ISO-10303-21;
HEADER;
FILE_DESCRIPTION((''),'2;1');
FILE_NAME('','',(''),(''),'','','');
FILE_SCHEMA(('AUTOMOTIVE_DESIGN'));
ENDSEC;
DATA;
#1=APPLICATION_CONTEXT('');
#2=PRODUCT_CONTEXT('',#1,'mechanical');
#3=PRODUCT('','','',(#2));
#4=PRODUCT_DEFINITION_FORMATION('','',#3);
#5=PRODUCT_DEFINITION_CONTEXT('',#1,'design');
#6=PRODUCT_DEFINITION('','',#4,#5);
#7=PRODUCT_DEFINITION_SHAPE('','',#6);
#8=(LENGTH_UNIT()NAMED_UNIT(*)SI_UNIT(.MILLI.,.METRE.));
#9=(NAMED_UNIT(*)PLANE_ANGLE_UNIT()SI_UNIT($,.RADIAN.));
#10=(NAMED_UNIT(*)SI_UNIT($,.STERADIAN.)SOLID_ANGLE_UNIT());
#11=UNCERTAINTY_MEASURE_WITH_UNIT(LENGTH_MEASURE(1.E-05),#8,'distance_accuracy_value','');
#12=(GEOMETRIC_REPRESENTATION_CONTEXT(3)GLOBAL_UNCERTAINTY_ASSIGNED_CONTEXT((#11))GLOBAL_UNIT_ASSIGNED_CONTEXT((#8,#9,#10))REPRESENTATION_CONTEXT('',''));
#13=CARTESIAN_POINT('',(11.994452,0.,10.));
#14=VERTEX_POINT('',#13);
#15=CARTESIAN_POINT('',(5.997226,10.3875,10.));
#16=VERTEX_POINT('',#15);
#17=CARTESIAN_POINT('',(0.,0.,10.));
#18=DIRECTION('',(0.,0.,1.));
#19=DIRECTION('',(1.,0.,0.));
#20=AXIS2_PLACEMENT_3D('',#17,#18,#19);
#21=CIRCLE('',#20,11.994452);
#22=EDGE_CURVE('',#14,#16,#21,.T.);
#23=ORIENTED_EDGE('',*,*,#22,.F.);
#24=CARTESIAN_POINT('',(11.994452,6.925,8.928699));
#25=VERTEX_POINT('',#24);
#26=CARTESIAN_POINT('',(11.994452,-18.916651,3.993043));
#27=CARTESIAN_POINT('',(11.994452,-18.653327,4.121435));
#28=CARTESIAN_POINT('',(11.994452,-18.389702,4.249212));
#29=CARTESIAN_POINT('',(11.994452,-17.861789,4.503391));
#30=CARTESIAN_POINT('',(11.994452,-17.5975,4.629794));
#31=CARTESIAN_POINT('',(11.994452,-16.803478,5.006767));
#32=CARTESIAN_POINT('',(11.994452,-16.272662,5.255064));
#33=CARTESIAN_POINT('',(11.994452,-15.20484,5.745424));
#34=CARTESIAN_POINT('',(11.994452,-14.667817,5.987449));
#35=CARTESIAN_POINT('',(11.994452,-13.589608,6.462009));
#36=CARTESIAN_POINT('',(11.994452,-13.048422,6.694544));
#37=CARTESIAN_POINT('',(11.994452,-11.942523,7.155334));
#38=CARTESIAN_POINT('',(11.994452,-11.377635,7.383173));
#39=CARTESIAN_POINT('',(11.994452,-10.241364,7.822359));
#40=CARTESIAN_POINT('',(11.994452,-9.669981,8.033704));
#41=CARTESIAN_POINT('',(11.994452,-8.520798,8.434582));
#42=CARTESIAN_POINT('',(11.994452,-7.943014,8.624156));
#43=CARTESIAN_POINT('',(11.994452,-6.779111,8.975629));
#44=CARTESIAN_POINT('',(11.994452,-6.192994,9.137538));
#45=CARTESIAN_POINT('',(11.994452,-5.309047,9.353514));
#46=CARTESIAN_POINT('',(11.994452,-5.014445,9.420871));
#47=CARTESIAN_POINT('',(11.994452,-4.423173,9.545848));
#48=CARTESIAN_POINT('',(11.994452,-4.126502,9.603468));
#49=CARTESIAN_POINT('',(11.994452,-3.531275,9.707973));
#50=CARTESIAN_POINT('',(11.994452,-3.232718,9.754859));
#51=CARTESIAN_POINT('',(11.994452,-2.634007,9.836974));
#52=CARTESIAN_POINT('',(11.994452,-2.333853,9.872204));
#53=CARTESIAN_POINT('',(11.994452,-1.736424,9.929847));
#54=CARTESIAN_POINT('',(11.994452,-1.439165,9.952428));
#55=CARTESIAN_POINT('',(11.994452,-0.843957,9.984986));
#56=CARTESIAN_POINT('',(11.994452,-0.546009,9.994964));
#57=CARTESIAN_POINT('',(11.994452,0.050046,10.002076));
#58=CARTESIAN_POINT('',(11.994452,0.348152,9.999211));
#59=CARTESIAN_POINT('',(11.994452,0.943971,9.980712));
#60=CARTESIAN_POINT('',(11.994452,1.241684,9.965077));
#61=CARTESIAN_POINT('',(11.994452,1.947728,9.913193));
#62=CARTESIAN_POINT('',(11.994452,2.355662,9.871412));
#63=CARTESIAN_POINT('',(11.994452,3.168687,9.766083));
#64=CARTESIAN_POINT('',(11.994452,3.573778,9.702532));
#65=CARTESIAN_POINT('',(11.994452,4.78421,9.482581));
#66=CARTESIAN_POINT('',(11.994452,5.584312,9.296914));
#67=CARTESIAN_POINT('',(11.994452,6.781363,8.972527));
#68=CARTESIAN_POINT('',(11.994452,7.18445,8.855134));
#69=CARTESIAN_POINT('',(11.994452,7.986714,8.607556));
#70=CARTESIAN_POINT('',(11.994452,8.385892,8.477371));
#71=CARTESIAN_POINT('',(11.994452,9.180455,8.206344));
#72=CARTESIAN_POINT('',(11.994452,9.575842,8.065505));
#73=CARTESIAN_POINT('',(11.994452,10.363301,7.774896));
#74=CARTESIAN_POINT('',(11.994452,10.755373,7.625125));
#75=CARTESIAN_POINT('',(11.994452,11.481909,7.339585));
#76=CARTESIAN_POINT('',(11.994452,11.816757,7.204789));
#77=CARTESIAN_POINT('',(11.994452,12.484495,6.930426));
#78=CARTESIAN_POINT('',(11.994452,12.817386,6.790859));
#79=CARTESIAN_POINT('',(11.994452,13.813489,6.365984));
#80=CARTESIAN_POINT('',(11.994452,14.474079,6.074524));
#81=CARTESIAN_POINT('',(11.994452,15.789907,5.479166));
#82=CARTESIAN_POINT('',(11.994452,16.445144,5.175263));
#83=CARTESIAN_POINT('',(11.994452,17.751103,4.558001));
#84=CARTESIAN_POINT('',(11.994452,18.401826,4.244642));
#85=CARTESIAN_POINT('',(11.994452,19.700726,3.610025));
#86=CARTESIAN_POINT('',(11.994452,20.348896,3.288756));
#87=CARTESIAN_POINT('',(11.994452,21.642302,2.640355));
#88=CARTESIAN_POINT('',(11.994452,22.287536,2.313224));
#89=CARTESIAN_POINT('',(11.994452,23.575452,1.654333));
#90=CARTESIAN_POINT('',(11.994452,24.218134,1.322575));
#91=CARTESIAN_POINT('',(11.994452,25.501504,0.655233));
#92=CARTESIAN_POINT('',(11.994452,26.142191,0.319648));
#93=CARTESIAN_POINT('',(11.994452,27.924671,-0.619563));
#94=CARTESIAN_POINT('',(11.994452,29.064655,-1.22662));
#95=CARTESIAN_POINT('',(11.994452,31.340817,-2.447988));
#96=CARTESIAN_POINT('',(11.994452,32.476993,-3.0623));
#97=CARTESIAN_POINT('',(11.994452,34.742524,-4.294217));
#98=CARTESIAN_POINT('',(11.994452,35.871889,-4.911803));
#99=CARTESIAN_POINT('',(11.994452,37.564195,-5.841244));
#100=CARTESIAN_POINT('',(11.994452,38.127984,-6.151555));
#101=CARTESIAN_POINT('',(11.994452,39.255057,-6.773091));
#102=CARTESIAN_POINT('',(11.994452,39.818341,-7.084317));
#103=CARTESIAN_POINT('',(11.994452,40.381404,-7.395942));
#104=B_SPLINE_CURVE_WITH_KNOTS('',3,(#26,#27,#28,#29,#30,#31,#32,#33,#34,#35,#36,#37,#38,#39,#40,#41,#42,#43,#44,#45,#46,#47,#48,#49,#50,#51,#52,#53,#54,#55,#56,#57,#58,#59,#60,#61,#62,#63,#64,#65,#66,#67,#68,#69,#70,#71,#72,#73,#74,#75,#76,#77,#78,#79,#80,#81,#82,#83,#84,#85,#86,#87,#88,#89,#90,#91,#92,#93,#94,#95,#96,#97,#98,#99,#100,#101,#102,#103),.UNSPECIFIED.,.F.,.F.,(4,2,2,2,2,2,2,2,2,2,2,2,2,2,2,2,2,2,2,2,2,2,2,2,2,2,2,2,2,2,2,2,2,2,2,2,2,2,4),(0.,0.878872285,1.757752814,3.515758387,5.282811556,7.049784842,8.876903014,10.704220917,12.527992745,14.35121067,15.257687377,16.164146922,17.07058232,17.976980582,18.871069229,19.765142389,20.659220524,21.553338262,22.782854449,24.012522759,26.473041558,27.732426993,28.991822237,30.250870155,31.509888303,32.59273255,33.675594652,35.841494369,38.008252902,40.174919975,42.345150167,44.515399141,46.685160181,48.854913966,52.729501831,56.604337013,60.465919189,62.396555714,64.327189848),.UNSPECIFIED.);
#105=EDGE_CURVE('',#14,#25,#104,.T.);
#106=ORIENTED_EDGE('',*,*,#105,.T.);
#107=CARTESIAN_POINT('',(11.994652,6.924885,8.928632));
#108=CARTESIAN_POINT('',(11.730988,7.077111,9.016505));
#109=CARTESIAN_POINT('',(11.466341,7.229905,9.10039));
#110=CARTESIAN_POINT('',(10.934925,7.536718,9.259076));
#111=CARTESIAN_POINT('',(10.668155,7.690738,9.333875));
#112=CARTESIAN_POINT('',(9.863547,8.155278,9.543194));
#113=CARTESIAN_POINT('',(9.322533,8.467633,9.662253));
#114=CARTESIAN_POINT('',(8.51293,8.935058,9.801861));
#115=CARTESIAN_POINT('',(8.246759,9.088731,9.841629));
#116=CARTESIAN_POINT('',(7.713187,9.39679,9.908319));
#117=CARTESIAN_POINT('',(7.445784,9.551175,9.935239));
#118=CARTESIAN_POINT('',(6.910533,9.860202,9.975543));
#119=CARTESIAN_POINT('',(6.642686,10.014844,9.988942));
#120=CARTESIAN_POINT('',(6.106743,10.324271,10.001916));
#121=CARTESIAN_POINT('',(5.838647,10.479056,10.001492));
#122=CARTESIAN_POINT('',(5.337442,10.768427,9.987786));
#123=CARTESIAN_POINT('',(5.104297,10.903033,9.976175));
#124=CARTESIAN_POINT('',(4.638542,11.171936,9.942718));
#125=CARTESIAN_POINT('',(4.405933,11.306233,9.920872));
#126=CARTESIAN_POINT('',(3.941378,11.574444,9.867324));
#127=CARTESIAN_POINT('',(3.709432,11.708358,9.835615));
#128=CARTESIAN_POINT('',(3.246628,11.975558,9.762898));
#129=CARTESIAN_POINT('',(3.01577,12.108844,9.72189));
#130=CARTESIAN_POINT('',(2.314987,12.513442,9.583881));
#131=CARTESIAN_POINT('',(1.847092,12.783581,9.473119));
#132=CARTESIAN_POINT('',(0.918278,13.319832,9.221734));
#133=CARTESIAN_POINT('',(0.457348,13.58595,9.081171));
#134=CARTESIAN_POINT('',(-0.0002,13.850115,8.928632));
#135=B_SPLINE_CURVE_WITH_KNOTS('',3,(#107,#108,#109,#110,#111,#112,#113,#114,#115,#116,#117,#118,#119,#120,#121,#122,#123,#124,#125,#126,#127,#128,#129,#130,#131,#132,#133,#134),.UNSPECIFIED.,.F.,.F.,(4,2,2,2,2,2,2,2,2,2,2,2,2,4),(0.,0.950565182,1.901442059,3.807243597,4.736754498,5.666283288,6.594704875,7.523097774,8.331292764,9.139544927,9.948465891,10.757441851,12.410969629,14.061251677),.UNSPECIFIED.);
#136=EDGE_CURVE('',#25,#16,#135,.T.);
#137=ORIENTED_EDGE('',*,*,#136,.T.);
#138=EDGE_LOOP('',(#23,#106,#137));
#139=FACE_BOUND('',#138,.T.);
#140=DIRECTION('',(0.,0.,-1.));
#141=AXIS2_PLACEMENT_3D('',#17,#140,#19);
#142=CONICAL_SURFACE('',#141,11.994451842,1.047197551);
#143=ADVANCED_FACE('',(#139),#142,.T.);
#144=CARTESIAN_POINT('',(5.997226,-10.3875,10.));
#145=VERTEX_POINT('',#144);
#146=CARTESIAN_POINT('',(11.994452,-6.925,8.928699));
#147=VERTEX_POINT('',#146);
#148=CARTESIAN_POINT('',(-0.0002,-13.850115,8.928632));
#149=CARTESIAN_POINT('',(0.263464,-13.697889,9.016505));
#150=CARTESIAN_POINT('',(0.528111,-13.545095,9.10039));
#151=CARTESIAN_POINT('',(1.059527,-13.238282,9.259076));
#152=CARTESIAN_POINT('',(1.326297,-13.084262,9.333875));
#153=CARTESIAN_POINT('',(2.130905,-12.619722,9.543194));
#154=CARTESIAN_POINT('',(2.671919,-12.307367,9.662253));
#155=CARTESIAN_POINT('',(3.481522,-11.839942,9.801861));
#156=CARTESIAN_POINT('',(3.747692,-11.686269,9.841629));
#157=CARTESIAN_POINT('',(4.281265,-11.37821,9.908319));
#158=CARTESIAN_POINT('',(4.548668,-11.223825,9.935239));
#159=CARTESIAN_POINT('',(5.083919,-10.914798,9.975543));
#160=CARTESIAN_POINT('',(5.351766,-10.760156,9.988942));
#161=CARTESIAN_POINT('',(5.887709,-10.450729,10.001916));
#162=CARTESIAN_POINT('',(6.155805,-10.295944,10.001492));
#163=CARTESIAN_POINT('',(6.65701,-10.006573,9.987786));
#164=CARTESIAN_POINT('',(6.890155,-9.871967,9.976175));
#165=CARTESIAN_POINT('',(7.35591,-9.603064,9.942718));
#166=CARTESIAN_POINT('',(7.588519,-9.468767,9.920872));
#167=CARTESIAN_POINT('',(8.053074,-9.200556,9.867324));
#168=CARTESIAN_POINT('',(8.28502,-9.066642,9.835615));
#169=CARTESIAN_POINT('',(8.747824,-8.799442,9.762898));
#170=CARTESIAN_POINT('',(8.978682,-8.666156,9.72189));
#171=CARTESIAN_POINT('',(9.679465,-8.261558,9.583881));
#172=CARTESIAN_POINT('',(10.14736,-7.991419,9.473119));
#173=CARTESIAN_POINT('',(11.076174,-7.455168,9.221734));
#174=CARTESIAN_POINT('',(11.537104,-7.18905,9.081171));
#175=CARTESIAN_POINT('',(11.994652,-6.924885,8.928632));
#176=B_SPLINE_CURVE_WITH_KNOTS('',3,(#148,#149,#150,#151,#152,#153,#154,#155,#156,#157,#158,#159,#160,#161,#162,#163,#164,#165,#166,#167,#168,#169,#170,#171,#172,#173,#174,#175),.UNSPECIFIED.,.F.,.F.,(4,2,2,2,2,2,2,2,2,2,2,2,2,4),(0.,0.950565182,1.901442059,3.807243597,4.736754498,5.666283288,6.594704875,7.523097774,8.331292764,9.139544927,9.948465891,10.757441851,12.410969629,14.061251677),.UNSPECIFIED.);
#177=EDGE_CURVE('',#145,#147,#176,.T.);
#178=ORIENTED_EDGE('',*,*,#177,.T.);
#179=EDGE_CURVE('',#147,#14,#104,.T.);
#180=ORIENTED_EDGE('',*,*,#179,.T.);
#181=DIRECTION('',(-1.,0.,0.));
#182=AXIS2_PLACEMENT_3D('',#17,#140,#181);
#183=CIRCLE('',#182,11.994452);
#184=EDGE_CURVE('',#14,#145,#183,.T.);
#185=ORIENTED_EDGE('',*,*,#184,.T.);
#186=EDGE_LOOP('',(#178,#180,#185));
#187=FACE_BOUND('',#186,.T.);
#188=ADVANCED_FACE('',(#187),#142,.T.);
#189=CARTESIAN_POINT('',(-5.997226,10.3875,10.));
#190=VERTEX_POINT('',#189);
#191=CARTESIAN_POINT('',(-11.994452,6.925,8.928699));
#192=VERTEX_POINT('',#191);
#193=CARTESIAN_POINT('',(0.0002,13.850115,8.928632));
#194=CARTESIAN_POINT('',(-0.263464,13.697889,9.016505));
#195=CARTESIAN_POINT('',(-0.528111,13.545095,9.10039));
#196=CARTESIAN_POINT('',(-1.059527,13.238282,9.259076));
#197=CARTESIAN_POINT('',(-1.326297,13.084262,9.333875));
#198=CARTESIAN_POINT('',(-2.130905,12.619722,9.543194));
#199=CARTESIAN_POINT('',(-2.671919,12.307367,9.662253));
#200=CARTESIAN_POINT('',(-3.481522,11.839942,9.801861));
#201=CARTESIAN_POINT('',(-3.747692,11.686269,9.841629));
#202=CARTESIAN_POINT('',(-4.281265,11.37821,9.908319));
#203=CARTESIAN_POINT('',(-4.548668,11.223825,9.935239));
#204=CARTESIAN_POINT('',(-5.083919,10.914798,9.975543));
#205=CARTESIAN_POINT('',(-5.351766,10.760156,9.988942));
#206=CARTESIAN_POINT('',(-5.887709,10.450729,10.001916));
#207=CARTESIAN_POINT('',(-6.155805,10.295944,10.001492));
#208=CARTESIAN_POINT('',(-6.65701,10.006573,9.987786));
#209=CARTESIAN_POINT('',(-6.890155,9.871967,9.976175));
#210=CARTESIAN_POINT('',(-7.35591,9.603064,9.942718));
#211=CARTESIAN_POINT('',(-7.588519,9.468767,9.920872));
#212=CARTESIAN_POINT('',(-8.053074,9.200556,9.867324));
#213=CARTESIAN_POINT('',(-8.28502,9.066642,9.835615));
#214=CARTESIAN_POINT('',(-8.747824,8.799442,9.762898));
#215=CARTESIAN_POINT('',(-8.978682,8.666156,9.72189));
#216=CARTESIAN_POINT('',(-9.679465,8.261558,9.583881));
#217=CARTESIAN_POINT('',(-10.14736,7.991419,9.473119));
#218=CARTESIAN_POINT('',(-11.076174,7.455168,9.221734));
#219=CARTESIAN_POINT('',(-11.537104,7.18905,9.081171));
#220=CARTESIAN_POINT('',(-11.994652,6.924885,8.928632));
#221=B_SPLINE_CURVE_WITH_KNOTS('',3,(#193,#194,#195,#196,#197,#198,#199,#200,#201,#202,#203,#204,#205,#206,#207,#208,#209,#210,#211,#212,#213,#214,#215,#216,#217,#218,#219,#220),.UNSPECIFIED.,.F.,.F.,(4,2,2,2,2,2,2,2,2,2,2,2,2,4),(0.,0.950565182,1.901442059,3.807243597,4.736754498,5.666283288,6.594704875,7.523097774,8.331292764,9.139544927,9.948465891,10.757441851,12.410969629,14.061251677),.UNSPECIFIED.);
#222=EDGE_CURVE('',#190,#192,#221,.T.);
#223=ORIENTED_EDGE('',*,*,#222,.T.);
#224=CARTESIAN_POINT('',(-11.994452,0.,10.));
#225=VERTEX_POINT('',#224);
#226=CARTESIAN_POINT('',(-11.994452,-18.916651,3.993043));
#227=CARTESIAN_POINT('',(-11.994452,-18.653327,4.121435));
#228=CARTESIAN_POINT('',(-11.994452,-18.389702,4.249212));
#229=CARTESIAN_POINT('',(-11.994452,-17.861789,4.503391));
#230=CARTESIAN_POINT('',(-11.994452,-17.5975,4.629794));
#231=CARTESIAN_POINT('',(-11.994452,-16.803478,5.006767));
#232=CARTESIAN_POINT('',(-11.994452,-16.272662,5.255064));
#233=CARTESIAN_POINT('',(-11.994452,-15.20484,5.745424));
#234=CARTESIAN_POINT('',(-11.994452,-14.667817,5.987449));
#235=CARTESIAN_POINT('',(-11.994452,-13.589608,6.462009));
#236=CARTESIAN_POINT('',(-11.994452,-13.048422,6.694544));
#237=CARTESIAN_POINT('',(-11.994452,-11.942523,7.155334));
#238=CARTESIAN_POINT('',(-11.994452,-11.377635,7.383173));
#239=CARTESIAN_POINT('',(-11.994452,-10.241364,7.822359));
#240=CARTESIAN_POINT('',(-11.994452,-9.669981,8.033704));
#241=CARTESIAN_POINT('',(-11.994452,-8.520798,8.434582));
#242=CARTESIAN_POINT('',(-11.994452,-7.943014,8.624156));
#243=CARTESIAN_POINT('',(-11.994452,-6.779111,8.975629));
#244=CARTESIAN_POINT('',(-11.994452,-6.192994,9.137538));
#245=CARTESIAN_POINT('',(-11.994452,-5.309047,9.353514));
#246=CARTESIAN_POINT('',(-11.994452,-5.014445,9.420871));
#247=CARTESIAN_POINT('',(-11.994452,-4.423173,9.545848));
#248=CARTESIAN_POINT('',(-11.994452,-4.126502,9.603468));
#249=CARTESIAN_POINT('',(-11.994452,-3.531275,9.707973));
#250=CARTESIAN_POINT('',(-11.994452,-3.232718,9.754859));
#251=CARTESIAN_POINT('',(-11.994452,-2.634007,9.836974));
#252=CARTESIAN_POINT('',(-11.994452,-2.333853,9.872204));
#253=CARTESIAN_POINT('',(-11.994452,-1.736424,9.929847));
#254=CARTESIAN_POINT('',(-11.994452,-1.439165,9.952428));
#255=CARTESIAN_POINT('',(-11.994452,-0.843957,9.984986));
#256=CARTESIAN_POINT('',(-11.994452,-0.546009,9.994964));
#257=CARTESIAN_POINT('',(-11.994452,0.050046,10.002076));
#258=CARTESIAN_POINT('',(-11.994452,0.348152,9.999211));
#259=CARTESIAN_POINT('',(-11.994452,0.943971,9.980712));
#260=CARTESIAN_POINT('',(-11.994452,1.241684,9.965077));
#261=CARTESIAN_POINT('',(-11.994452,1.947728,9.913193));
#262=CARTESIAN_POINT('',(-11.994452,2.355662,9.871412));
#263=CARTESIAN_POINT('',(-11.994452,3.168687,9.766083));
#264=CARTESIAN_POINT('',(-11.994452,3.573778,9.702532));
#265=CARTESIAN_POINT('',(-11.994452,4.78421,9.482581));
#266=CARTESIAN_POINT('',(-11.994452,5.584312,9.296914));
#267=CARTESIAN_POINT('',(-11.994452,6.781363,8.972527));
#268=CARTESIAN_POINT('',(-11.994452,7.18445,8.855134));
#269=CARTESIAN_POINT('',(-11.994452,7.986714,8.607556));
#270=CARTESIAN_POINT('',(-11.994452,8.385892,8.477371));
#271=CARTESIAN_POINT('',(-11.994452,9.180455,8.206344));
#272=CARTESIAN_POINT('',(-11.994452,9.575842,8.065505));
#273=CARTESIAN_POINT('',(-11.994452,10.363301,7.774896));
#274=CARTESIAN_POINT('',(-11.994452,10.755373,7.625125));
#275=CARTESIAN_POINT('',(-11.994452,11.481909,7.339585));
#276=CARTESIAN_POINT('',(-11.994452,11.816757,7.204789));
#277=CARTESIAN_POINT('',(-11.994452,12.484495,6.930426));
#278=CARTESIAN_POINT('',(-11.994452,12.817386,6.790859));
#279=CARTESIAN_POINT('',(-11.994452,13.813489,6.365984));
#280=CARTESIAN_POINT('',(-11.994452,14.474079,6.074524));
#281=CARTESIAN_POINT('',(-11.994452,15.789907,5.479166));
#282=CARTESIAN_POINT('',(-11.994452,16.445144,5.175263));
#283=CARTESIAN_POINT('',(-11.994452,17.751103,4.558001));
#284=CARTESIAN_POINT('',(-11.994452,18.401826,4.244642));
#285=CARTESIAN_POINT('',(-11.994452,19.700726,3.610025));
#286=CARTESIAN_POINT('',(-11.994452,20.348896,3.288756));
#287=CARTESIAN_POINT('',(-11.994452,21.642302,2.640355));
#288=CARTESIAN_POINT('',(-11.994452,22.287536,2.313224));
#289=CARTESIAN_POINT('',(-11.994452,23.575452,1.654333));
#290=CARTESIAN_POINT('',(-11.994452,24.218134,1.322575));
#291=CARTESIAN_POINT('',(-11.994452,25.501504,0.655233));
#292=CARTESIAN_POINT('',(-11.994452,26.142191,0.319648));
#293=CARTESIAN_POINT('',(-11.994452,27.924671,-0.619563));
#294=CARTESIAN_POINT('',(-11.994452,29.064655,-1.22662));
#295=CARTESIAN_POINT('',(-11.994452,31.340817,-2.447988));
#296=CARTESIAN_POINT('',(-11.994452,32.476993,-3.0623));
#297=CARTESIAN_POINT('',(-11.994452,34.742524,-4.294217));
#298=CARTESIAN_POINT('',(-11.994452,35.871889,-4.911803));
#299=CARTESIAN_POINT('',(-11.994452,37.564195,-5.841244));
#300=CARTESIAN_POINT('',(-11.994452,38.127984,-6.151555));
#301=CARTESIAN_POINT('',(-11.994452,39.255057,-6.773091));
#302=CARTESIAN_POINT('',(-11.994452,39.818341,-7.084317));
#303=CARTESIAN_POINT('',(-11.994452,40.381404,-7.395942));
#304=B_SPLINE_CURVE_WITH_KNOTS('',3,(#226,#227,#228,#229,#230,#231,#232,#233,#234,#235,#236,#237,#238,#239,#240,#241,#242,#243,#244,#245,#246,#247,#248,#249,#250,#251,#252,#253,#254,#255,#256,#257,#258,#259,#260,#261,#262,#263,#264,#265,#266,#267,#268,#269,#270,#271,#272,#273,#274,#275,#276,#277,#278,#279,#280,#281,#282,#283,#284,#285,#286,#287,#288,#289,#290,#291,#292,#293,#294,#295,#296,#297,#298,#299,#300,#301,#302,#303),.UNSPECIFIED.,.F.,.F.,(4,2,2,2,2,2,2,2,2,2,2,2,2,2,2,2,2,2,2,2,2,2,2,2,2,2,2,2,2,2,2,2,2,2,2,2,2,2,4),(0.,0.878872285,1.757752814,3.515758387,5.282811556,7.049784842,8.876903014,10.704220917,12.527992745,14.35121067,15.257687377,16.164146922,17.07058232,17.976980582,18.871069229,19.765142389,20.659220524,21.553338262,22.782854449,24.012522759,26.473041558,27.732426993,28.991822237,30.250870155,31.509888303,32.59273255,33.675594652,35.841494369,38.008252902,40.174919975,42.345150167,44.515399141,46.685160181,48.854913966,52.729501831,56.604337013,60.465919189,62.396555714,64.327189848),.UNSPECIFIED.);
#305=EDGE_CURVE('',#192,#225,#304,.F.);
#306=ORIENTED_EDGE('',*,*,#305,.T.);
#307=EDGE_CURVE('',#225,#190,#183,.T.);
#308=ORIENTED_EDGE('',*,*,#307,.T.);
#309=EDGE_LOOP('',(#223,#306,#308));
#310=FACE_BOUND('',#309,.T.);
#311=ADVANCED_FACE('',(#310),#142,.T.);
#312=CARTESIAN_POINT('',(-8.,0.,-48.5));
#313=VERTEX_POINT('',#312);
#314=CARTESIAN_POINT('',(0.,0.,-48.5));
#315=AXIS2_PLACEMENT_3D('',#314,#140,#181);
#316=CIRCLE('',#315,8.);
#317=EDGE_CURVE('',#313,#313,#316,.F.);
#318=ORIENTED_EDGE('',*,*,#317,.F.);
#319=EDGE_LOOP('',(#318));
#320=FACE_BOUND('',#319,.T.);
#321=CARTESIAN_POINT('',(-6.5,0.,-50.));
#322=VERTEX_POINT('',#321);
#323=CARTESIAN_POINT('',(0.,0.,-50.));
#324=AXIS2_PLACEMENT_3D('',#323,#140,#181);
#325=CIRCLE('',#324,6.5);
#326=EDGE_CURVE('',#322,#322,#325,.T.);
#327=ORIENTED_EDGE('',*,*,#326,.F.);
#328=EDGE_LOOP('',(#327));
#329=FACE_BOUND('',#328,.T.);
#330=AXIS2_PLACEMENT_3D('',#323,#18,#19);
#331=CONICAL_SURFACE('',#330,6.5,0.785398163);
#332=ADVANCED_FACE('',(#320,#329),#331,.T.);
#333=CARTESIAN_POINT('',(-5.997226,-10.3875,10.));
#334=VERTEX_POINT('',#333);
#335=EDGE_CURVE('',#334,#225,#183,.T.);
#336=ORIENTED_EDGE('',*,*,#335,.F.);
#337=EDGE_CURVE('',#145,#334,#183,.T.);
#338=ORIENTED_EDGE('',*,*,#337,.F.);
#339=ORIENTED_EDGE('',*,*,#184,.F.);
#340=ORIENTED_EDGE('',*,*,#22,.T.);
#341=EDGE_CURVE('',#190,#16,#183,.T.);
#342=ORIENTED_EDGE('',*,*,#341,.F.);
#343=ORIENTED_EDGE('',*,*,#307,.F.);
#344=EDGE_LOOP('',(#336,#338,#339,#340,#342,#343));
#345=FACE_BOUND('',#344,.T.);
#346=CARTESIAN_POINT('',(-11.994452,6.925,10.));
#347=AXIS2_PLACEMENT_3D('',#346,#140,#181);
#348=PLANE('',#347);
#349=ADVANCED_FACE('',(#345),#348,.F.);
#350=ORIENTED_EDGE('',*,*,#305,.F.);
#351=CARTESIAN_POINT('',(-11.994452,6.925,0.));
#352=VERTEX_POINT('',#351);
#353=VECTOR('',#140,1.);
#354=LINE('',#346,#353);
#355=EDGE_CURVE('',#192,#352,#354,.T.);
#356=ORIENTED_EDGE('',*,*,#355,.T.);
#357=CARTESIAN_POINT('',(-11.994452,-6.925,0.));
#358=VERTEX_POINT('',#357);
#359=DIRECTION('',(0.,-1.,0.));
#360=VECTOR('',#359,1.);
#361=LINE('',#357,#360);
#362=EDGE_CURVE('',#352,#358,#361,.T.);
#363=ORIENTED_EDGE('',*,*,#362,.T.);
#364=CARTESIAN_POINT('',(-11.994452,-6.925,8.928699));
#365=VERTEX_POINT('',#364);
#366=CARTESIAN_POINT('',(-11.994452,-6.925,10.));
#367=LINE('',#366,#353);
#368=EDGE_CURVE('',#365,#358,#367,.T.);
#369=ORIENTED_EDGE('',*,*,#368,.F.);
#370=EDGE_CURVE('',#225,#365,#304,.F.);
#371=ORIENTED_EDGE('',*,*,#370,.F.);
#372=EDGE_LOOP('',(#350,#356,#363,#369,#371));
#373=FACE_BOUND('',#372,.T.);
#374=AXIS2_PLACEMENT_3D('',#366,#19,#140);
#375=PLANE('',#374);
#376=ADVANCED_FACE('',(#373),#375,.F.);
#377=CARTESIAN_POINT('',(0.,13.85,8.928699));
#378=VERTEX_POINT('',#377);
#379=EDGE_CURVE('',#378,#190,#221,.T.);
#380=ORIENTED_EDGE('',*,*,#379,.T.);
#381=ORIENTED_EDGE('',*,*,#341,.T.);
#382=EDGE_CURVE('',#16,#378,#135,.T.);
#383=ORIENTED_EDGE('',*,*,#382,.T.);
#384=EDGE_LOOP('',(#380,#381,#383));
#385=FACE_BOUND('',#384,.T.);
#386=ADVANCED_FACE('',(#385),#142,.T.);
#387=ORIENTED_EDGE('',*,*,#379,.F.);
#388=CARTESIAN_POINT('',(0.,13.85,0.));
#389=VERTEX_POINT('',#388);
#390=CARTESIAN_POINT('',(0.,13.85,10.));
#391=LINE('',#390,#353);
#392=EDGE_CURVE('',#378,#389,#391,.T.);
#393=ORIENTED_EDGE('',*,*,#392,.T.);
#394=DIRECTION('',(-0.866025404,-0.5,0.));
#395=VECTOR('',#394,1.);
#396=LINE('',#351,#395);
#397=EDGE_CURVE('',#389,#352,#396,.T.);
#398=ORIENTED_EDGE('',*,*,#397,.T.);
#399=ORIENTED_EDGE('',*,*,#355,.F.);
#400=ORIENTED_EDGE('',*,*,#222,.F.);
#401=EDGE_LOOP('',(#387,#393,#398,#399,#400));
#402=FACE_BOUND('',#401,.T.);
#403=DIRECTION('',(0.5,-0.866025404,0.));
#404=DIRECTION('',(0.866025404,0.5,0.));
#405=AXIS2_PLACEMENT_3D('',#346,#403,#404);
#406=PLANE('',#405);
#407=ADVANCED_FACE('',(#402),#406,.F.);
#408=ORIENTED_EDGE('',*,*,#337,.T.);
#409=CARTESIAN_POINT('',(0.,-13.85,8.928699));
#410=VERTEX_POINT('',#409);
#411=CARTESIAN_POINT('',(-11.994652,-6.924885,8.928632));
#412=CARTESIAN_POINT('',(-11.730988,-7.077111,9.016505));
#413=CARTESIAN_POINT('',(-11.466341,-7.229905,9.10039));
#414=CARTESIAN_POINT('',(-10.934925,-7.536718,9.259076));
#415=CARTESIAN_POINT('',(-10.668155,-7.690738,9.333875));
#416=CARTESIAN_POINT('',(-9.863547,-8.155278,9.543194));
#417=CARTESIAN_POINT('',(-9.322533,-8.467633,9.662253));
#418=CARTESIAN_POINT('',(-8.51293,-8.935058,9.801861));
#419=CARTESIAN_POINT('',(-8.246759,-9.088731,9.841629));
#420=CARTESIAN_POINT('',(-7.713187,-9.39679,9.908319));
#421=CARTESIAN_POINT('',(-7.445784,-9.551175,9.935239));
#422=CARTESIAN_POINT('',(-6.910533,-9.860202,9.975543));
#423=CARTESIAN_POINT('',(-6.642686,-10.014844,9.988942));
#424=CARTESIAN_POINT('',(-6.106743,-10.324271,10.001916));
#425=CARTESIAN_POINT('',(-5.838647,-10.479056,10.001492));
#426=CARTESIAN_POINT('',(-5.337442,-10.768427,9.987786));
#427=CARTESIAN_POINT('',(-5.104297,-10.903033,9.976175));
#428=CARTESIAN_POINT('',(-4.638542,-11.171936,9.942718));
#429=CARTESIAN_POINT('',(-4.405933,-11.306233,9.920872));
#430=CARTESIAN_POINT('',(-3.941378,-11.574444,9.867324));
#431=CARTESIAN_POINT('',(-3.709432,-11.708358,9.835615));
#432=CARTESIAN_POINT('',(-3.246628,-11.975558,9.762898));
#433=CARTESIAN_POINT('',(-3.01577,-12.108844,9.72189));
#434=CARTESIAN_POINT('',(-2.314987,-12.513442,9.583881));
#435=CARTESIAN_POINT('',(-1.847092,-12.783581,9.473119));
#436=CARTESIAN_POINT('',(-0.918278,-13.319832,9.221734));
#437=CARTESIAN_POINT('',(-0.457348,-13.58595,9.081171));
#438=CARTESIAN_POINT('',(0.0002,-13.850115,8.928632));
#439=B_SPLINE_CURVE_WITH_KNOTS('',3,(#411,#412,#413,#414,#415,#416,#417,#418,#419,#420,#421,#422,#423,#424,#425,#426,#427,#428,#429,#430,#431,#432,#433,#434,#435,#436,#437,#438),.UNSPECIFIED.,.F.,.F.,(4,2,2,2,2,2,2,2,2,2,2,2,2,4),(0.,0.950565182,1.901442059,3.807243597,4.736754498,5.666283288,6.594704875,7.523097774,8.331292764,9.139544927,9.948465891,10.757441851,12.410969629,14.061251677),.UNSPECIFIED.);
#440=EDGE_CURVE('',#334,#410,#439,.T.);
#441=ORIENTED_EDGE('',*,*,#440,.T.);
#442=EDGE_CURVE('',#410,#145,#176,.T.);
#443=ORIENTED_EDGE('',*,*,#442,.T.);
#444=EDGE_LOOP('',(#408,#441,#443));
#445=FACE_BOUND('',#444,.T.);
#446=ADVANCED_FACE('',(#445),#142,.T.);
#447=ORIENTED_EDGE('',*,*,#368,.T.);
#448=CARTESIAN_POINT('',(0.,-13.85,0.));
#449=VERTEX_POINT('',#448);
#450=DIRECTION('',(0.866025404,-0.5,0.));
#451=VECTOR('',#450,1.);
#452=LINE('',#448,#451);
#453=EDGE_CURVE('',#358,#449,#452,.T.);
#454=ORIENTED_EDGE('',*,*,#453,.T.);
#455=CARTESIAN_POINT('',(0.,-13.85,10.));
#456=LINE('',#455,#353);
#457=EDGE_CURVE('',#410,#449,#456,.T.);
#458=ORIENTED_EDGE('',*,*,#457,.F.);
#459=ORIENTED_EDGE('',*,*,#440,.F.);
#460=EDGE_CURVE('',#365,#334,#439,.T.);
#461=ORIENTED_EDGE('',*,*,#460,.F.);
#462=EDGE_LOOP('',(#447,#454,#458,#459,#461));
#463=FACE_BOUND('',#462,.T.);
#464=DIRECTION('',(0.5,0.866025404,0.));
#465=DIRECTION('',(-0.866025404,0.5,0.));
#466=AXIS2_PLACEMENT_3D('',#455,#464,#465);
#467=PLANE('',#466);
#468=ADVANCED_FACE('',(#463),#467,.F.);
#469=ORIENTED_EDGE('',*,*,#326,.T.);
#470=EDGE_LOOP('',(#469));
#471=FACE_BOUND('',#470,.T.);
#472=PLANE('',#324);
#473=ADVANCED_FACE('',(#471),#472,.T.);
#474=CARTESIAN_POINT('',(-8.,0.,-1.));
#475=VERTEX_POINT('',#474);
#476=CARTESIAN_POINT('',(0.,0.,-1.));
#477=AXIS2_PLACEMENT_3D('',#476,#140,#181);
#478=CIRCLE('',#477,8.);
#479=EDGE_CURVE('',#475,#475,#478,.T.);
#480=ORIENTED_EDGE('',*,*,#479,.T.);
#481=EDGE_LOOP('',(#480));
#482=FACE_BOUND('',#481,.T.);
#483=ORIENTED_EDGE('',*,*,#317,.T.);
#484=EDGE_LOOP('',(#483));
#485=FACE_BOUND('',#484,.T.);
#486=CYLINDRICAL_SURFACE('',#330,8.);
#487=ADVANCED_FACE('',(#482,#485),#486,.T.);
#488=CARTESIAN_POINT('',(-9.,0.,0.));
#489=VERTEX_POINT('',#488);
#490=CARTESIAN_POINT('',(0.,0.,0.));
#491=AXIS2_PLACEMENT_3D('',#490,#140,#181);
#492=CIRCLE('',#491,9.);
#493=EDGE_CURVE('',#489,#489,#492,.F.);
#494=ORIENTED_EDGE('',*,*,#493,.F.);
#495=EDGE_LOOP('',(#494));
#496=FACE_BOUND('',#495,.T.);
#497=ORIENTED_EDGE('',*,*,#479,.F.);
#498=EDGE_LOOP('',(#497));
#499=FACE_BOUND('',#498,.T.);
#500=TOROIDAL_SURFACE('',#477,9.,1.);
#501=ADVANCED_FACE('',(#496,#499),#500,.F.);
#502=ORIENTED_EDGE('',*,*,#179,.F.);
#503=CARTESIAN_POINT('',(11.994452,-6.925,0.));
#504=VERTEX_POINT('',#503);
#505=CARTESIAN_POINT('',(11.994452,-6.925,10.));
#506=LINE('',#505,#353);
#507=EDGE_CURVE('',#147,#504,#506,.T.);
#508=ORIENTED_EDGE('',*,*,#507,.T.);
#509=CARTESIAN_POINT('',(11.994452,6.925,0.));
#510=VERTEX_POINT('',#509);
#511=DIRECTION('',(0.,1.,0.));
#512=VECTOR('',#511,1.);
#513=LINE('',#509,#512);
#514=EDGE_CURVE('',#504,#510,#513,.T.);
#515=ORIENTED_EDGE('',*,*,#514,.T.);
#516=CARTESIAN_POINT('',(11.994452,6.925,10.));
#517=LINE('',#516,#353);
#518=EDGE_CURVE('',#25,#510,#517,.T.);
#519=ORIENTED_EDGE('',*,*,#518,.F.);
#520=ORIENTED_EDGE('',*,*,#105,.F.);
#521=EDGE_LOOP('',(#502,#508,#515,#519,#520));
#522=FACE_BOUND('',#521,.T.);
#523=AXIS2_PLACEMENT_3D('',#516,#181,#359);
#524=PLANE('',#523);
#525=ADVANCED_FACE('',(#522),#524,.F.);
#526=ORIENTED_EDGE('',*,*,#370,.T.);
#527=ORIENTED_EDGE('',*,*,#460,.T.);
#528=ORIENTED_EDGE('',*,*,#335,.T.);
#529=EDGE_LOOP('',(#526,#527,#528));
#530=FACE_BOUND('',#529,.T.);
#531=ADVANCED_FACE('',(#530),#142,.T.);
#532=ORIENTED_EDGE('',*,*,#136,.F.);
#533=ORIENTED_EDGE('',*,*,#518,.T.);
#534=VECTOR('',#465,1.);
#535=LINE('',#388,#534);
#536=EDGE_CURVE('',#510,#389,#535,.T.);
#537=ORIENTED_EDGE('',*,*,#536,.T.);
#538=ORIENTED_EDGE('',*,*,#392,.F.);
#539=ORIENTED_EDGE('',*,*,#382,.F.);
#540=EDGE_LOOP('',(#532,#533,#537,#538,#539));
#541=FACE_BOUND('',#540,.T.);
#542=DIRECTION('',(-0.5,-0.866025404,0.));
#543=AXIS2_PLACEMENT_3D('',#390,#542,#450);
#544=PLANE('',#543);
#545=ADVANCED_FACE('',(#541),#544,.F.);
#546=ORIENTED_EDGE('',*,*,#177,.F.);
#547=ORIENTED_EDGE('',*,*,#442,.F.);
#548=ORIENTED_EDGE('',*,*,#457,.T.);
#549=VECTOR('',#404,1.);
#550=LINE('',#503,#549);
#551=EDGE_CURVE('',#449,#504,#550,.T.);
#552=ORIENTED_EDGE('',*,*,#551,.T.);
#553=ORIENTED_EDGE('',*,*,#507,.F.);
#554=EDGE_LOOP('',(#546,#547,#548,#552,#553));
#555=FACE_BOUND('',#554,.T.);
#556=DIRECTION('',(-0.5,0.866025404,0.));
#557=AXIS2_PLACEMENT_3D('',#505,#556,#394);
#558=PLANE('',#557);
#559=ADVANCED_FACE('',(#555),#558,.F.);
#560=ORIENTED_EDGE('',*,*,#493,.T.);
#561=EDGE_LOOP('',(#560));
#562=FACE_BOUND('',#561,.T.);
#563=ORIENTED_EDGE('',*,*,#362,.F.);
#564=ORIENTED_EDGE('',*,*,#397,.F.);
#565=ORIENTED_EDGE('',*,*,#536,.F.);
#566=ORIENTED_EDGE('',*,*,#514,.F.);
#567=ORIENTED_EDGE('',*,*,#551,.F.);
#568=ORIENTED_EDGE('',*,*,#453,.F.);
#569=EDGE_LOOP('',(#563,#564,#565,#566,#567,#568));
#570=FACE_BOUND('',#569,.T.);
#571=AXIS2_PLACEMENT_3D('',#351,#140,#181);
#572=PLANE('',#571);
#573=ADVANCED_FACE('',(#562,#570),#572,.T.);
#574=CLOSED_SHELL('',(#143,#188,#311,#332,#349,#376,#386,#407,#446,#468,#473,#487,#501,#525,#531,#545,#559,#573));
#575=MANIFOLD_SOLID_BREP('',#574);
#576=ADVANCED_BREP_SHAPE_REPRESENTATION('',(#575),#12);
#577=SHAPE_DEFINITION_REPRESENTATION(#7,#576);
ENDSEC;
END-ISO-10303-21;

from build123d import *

# Parameters (mm, degrees)
EXTRUDE_376_DEPTH   = 10
SKETCH_2_OUTSIDE_W  = 172.148
SKETCH_2_OUTSIDE_H  = 175.86
SKETCH_2_OUTSIDE_R  = 11.994451842
CUT_EXTRUDE_1_DEPTH = 40
CUT_EXTRUDE_1_DRAFT = -60
SKETCH_3_R          = 8
EXTRUDE_1_DEPTH     = 50
CHAMFER_1_SIZE      = 1.5
FILLET_1_R          = 1


with BuildPart() as part:
    # Эскиз1 → Extrude 376 (new body)
    with BuildSketch(Plane.XY):
        Polygon((-11.994451842, 6.925), (0, 13.85), (11.994451842, 6.925), (11.994451842, -6.925), (0, -13.85), (-11.994451842, -6.925), align=None)
    extrude(amount=EXTRUDE_376_DEPTH)


with BuildPart() as cut_extrude_1_tool:
    # Эскиз2 outside → Вырез-Вытянуть1 (with draft: the straight prism first)
    with BuildSketch(Plane.XY.offset(10)):
        Rectangle(SKETCH_2_OUTSIDE_W, SKETCH_2_OUTSIDE_H)
        Circle(SKETCH_2_OUTSIDE_R, mode=Mode.SUBTRACT)
    extrude(amount=-CUT_EXTRUDE_1_DEPTH)
    # Вырез-Вытянуть1: the draft: its side faces are tilted about the plane it starts from
    cut_extrude_1_sides = [cut_extrude_1_tool.faces().sort_by_distance(p)[0] for p in [
        (0, -87.93, -10),
        (86.074, 0, -10),
        (0, 87.93, -10),
        (-86.074, 0, -10),
        (-11.994451842, 0, -10),
    ]]
    draft(cut_extrude_1_sides, Plane.XY.offset(10), CUT_EXTRUDE_1_DRAFT)


with BuildPart() as part_1:
    add(part.part)

    # Вырез-Вытянуть1: cut by cut_extrude_1_tool
    add(cut_extrude_1_tool.part, mode=Mode.SUBTRACT)

    # Эскиз3 → Бобышка-Вытянуть1 (add)
    with BuildSketch(Plane(origin=(0, 0, 0), x_dir=(-1, 0, 0), z_dir=(0, 0, -1))):
        Circle(SKETCH_3_R)
    extrude(amount=EXTRUDE_1_DEPTH)

    # Фаска1
    chamfer_1_edges = [part_1.edges().sort_by_distance(p)[0] for p in [
        (8, 0, -50),
    ]]
    chamfer(chamfer_1_edges, length=CHAMFER_1_SIZE)

    # Скругление1
    fillet_1_edges = [part_1.edges().sort_by_distance(p)[0] for p in [
        (8, 0, 0),
    ]]
    fillet(fillet_1_edges, radius=FILLET_1_R)


solid = part_1.part
